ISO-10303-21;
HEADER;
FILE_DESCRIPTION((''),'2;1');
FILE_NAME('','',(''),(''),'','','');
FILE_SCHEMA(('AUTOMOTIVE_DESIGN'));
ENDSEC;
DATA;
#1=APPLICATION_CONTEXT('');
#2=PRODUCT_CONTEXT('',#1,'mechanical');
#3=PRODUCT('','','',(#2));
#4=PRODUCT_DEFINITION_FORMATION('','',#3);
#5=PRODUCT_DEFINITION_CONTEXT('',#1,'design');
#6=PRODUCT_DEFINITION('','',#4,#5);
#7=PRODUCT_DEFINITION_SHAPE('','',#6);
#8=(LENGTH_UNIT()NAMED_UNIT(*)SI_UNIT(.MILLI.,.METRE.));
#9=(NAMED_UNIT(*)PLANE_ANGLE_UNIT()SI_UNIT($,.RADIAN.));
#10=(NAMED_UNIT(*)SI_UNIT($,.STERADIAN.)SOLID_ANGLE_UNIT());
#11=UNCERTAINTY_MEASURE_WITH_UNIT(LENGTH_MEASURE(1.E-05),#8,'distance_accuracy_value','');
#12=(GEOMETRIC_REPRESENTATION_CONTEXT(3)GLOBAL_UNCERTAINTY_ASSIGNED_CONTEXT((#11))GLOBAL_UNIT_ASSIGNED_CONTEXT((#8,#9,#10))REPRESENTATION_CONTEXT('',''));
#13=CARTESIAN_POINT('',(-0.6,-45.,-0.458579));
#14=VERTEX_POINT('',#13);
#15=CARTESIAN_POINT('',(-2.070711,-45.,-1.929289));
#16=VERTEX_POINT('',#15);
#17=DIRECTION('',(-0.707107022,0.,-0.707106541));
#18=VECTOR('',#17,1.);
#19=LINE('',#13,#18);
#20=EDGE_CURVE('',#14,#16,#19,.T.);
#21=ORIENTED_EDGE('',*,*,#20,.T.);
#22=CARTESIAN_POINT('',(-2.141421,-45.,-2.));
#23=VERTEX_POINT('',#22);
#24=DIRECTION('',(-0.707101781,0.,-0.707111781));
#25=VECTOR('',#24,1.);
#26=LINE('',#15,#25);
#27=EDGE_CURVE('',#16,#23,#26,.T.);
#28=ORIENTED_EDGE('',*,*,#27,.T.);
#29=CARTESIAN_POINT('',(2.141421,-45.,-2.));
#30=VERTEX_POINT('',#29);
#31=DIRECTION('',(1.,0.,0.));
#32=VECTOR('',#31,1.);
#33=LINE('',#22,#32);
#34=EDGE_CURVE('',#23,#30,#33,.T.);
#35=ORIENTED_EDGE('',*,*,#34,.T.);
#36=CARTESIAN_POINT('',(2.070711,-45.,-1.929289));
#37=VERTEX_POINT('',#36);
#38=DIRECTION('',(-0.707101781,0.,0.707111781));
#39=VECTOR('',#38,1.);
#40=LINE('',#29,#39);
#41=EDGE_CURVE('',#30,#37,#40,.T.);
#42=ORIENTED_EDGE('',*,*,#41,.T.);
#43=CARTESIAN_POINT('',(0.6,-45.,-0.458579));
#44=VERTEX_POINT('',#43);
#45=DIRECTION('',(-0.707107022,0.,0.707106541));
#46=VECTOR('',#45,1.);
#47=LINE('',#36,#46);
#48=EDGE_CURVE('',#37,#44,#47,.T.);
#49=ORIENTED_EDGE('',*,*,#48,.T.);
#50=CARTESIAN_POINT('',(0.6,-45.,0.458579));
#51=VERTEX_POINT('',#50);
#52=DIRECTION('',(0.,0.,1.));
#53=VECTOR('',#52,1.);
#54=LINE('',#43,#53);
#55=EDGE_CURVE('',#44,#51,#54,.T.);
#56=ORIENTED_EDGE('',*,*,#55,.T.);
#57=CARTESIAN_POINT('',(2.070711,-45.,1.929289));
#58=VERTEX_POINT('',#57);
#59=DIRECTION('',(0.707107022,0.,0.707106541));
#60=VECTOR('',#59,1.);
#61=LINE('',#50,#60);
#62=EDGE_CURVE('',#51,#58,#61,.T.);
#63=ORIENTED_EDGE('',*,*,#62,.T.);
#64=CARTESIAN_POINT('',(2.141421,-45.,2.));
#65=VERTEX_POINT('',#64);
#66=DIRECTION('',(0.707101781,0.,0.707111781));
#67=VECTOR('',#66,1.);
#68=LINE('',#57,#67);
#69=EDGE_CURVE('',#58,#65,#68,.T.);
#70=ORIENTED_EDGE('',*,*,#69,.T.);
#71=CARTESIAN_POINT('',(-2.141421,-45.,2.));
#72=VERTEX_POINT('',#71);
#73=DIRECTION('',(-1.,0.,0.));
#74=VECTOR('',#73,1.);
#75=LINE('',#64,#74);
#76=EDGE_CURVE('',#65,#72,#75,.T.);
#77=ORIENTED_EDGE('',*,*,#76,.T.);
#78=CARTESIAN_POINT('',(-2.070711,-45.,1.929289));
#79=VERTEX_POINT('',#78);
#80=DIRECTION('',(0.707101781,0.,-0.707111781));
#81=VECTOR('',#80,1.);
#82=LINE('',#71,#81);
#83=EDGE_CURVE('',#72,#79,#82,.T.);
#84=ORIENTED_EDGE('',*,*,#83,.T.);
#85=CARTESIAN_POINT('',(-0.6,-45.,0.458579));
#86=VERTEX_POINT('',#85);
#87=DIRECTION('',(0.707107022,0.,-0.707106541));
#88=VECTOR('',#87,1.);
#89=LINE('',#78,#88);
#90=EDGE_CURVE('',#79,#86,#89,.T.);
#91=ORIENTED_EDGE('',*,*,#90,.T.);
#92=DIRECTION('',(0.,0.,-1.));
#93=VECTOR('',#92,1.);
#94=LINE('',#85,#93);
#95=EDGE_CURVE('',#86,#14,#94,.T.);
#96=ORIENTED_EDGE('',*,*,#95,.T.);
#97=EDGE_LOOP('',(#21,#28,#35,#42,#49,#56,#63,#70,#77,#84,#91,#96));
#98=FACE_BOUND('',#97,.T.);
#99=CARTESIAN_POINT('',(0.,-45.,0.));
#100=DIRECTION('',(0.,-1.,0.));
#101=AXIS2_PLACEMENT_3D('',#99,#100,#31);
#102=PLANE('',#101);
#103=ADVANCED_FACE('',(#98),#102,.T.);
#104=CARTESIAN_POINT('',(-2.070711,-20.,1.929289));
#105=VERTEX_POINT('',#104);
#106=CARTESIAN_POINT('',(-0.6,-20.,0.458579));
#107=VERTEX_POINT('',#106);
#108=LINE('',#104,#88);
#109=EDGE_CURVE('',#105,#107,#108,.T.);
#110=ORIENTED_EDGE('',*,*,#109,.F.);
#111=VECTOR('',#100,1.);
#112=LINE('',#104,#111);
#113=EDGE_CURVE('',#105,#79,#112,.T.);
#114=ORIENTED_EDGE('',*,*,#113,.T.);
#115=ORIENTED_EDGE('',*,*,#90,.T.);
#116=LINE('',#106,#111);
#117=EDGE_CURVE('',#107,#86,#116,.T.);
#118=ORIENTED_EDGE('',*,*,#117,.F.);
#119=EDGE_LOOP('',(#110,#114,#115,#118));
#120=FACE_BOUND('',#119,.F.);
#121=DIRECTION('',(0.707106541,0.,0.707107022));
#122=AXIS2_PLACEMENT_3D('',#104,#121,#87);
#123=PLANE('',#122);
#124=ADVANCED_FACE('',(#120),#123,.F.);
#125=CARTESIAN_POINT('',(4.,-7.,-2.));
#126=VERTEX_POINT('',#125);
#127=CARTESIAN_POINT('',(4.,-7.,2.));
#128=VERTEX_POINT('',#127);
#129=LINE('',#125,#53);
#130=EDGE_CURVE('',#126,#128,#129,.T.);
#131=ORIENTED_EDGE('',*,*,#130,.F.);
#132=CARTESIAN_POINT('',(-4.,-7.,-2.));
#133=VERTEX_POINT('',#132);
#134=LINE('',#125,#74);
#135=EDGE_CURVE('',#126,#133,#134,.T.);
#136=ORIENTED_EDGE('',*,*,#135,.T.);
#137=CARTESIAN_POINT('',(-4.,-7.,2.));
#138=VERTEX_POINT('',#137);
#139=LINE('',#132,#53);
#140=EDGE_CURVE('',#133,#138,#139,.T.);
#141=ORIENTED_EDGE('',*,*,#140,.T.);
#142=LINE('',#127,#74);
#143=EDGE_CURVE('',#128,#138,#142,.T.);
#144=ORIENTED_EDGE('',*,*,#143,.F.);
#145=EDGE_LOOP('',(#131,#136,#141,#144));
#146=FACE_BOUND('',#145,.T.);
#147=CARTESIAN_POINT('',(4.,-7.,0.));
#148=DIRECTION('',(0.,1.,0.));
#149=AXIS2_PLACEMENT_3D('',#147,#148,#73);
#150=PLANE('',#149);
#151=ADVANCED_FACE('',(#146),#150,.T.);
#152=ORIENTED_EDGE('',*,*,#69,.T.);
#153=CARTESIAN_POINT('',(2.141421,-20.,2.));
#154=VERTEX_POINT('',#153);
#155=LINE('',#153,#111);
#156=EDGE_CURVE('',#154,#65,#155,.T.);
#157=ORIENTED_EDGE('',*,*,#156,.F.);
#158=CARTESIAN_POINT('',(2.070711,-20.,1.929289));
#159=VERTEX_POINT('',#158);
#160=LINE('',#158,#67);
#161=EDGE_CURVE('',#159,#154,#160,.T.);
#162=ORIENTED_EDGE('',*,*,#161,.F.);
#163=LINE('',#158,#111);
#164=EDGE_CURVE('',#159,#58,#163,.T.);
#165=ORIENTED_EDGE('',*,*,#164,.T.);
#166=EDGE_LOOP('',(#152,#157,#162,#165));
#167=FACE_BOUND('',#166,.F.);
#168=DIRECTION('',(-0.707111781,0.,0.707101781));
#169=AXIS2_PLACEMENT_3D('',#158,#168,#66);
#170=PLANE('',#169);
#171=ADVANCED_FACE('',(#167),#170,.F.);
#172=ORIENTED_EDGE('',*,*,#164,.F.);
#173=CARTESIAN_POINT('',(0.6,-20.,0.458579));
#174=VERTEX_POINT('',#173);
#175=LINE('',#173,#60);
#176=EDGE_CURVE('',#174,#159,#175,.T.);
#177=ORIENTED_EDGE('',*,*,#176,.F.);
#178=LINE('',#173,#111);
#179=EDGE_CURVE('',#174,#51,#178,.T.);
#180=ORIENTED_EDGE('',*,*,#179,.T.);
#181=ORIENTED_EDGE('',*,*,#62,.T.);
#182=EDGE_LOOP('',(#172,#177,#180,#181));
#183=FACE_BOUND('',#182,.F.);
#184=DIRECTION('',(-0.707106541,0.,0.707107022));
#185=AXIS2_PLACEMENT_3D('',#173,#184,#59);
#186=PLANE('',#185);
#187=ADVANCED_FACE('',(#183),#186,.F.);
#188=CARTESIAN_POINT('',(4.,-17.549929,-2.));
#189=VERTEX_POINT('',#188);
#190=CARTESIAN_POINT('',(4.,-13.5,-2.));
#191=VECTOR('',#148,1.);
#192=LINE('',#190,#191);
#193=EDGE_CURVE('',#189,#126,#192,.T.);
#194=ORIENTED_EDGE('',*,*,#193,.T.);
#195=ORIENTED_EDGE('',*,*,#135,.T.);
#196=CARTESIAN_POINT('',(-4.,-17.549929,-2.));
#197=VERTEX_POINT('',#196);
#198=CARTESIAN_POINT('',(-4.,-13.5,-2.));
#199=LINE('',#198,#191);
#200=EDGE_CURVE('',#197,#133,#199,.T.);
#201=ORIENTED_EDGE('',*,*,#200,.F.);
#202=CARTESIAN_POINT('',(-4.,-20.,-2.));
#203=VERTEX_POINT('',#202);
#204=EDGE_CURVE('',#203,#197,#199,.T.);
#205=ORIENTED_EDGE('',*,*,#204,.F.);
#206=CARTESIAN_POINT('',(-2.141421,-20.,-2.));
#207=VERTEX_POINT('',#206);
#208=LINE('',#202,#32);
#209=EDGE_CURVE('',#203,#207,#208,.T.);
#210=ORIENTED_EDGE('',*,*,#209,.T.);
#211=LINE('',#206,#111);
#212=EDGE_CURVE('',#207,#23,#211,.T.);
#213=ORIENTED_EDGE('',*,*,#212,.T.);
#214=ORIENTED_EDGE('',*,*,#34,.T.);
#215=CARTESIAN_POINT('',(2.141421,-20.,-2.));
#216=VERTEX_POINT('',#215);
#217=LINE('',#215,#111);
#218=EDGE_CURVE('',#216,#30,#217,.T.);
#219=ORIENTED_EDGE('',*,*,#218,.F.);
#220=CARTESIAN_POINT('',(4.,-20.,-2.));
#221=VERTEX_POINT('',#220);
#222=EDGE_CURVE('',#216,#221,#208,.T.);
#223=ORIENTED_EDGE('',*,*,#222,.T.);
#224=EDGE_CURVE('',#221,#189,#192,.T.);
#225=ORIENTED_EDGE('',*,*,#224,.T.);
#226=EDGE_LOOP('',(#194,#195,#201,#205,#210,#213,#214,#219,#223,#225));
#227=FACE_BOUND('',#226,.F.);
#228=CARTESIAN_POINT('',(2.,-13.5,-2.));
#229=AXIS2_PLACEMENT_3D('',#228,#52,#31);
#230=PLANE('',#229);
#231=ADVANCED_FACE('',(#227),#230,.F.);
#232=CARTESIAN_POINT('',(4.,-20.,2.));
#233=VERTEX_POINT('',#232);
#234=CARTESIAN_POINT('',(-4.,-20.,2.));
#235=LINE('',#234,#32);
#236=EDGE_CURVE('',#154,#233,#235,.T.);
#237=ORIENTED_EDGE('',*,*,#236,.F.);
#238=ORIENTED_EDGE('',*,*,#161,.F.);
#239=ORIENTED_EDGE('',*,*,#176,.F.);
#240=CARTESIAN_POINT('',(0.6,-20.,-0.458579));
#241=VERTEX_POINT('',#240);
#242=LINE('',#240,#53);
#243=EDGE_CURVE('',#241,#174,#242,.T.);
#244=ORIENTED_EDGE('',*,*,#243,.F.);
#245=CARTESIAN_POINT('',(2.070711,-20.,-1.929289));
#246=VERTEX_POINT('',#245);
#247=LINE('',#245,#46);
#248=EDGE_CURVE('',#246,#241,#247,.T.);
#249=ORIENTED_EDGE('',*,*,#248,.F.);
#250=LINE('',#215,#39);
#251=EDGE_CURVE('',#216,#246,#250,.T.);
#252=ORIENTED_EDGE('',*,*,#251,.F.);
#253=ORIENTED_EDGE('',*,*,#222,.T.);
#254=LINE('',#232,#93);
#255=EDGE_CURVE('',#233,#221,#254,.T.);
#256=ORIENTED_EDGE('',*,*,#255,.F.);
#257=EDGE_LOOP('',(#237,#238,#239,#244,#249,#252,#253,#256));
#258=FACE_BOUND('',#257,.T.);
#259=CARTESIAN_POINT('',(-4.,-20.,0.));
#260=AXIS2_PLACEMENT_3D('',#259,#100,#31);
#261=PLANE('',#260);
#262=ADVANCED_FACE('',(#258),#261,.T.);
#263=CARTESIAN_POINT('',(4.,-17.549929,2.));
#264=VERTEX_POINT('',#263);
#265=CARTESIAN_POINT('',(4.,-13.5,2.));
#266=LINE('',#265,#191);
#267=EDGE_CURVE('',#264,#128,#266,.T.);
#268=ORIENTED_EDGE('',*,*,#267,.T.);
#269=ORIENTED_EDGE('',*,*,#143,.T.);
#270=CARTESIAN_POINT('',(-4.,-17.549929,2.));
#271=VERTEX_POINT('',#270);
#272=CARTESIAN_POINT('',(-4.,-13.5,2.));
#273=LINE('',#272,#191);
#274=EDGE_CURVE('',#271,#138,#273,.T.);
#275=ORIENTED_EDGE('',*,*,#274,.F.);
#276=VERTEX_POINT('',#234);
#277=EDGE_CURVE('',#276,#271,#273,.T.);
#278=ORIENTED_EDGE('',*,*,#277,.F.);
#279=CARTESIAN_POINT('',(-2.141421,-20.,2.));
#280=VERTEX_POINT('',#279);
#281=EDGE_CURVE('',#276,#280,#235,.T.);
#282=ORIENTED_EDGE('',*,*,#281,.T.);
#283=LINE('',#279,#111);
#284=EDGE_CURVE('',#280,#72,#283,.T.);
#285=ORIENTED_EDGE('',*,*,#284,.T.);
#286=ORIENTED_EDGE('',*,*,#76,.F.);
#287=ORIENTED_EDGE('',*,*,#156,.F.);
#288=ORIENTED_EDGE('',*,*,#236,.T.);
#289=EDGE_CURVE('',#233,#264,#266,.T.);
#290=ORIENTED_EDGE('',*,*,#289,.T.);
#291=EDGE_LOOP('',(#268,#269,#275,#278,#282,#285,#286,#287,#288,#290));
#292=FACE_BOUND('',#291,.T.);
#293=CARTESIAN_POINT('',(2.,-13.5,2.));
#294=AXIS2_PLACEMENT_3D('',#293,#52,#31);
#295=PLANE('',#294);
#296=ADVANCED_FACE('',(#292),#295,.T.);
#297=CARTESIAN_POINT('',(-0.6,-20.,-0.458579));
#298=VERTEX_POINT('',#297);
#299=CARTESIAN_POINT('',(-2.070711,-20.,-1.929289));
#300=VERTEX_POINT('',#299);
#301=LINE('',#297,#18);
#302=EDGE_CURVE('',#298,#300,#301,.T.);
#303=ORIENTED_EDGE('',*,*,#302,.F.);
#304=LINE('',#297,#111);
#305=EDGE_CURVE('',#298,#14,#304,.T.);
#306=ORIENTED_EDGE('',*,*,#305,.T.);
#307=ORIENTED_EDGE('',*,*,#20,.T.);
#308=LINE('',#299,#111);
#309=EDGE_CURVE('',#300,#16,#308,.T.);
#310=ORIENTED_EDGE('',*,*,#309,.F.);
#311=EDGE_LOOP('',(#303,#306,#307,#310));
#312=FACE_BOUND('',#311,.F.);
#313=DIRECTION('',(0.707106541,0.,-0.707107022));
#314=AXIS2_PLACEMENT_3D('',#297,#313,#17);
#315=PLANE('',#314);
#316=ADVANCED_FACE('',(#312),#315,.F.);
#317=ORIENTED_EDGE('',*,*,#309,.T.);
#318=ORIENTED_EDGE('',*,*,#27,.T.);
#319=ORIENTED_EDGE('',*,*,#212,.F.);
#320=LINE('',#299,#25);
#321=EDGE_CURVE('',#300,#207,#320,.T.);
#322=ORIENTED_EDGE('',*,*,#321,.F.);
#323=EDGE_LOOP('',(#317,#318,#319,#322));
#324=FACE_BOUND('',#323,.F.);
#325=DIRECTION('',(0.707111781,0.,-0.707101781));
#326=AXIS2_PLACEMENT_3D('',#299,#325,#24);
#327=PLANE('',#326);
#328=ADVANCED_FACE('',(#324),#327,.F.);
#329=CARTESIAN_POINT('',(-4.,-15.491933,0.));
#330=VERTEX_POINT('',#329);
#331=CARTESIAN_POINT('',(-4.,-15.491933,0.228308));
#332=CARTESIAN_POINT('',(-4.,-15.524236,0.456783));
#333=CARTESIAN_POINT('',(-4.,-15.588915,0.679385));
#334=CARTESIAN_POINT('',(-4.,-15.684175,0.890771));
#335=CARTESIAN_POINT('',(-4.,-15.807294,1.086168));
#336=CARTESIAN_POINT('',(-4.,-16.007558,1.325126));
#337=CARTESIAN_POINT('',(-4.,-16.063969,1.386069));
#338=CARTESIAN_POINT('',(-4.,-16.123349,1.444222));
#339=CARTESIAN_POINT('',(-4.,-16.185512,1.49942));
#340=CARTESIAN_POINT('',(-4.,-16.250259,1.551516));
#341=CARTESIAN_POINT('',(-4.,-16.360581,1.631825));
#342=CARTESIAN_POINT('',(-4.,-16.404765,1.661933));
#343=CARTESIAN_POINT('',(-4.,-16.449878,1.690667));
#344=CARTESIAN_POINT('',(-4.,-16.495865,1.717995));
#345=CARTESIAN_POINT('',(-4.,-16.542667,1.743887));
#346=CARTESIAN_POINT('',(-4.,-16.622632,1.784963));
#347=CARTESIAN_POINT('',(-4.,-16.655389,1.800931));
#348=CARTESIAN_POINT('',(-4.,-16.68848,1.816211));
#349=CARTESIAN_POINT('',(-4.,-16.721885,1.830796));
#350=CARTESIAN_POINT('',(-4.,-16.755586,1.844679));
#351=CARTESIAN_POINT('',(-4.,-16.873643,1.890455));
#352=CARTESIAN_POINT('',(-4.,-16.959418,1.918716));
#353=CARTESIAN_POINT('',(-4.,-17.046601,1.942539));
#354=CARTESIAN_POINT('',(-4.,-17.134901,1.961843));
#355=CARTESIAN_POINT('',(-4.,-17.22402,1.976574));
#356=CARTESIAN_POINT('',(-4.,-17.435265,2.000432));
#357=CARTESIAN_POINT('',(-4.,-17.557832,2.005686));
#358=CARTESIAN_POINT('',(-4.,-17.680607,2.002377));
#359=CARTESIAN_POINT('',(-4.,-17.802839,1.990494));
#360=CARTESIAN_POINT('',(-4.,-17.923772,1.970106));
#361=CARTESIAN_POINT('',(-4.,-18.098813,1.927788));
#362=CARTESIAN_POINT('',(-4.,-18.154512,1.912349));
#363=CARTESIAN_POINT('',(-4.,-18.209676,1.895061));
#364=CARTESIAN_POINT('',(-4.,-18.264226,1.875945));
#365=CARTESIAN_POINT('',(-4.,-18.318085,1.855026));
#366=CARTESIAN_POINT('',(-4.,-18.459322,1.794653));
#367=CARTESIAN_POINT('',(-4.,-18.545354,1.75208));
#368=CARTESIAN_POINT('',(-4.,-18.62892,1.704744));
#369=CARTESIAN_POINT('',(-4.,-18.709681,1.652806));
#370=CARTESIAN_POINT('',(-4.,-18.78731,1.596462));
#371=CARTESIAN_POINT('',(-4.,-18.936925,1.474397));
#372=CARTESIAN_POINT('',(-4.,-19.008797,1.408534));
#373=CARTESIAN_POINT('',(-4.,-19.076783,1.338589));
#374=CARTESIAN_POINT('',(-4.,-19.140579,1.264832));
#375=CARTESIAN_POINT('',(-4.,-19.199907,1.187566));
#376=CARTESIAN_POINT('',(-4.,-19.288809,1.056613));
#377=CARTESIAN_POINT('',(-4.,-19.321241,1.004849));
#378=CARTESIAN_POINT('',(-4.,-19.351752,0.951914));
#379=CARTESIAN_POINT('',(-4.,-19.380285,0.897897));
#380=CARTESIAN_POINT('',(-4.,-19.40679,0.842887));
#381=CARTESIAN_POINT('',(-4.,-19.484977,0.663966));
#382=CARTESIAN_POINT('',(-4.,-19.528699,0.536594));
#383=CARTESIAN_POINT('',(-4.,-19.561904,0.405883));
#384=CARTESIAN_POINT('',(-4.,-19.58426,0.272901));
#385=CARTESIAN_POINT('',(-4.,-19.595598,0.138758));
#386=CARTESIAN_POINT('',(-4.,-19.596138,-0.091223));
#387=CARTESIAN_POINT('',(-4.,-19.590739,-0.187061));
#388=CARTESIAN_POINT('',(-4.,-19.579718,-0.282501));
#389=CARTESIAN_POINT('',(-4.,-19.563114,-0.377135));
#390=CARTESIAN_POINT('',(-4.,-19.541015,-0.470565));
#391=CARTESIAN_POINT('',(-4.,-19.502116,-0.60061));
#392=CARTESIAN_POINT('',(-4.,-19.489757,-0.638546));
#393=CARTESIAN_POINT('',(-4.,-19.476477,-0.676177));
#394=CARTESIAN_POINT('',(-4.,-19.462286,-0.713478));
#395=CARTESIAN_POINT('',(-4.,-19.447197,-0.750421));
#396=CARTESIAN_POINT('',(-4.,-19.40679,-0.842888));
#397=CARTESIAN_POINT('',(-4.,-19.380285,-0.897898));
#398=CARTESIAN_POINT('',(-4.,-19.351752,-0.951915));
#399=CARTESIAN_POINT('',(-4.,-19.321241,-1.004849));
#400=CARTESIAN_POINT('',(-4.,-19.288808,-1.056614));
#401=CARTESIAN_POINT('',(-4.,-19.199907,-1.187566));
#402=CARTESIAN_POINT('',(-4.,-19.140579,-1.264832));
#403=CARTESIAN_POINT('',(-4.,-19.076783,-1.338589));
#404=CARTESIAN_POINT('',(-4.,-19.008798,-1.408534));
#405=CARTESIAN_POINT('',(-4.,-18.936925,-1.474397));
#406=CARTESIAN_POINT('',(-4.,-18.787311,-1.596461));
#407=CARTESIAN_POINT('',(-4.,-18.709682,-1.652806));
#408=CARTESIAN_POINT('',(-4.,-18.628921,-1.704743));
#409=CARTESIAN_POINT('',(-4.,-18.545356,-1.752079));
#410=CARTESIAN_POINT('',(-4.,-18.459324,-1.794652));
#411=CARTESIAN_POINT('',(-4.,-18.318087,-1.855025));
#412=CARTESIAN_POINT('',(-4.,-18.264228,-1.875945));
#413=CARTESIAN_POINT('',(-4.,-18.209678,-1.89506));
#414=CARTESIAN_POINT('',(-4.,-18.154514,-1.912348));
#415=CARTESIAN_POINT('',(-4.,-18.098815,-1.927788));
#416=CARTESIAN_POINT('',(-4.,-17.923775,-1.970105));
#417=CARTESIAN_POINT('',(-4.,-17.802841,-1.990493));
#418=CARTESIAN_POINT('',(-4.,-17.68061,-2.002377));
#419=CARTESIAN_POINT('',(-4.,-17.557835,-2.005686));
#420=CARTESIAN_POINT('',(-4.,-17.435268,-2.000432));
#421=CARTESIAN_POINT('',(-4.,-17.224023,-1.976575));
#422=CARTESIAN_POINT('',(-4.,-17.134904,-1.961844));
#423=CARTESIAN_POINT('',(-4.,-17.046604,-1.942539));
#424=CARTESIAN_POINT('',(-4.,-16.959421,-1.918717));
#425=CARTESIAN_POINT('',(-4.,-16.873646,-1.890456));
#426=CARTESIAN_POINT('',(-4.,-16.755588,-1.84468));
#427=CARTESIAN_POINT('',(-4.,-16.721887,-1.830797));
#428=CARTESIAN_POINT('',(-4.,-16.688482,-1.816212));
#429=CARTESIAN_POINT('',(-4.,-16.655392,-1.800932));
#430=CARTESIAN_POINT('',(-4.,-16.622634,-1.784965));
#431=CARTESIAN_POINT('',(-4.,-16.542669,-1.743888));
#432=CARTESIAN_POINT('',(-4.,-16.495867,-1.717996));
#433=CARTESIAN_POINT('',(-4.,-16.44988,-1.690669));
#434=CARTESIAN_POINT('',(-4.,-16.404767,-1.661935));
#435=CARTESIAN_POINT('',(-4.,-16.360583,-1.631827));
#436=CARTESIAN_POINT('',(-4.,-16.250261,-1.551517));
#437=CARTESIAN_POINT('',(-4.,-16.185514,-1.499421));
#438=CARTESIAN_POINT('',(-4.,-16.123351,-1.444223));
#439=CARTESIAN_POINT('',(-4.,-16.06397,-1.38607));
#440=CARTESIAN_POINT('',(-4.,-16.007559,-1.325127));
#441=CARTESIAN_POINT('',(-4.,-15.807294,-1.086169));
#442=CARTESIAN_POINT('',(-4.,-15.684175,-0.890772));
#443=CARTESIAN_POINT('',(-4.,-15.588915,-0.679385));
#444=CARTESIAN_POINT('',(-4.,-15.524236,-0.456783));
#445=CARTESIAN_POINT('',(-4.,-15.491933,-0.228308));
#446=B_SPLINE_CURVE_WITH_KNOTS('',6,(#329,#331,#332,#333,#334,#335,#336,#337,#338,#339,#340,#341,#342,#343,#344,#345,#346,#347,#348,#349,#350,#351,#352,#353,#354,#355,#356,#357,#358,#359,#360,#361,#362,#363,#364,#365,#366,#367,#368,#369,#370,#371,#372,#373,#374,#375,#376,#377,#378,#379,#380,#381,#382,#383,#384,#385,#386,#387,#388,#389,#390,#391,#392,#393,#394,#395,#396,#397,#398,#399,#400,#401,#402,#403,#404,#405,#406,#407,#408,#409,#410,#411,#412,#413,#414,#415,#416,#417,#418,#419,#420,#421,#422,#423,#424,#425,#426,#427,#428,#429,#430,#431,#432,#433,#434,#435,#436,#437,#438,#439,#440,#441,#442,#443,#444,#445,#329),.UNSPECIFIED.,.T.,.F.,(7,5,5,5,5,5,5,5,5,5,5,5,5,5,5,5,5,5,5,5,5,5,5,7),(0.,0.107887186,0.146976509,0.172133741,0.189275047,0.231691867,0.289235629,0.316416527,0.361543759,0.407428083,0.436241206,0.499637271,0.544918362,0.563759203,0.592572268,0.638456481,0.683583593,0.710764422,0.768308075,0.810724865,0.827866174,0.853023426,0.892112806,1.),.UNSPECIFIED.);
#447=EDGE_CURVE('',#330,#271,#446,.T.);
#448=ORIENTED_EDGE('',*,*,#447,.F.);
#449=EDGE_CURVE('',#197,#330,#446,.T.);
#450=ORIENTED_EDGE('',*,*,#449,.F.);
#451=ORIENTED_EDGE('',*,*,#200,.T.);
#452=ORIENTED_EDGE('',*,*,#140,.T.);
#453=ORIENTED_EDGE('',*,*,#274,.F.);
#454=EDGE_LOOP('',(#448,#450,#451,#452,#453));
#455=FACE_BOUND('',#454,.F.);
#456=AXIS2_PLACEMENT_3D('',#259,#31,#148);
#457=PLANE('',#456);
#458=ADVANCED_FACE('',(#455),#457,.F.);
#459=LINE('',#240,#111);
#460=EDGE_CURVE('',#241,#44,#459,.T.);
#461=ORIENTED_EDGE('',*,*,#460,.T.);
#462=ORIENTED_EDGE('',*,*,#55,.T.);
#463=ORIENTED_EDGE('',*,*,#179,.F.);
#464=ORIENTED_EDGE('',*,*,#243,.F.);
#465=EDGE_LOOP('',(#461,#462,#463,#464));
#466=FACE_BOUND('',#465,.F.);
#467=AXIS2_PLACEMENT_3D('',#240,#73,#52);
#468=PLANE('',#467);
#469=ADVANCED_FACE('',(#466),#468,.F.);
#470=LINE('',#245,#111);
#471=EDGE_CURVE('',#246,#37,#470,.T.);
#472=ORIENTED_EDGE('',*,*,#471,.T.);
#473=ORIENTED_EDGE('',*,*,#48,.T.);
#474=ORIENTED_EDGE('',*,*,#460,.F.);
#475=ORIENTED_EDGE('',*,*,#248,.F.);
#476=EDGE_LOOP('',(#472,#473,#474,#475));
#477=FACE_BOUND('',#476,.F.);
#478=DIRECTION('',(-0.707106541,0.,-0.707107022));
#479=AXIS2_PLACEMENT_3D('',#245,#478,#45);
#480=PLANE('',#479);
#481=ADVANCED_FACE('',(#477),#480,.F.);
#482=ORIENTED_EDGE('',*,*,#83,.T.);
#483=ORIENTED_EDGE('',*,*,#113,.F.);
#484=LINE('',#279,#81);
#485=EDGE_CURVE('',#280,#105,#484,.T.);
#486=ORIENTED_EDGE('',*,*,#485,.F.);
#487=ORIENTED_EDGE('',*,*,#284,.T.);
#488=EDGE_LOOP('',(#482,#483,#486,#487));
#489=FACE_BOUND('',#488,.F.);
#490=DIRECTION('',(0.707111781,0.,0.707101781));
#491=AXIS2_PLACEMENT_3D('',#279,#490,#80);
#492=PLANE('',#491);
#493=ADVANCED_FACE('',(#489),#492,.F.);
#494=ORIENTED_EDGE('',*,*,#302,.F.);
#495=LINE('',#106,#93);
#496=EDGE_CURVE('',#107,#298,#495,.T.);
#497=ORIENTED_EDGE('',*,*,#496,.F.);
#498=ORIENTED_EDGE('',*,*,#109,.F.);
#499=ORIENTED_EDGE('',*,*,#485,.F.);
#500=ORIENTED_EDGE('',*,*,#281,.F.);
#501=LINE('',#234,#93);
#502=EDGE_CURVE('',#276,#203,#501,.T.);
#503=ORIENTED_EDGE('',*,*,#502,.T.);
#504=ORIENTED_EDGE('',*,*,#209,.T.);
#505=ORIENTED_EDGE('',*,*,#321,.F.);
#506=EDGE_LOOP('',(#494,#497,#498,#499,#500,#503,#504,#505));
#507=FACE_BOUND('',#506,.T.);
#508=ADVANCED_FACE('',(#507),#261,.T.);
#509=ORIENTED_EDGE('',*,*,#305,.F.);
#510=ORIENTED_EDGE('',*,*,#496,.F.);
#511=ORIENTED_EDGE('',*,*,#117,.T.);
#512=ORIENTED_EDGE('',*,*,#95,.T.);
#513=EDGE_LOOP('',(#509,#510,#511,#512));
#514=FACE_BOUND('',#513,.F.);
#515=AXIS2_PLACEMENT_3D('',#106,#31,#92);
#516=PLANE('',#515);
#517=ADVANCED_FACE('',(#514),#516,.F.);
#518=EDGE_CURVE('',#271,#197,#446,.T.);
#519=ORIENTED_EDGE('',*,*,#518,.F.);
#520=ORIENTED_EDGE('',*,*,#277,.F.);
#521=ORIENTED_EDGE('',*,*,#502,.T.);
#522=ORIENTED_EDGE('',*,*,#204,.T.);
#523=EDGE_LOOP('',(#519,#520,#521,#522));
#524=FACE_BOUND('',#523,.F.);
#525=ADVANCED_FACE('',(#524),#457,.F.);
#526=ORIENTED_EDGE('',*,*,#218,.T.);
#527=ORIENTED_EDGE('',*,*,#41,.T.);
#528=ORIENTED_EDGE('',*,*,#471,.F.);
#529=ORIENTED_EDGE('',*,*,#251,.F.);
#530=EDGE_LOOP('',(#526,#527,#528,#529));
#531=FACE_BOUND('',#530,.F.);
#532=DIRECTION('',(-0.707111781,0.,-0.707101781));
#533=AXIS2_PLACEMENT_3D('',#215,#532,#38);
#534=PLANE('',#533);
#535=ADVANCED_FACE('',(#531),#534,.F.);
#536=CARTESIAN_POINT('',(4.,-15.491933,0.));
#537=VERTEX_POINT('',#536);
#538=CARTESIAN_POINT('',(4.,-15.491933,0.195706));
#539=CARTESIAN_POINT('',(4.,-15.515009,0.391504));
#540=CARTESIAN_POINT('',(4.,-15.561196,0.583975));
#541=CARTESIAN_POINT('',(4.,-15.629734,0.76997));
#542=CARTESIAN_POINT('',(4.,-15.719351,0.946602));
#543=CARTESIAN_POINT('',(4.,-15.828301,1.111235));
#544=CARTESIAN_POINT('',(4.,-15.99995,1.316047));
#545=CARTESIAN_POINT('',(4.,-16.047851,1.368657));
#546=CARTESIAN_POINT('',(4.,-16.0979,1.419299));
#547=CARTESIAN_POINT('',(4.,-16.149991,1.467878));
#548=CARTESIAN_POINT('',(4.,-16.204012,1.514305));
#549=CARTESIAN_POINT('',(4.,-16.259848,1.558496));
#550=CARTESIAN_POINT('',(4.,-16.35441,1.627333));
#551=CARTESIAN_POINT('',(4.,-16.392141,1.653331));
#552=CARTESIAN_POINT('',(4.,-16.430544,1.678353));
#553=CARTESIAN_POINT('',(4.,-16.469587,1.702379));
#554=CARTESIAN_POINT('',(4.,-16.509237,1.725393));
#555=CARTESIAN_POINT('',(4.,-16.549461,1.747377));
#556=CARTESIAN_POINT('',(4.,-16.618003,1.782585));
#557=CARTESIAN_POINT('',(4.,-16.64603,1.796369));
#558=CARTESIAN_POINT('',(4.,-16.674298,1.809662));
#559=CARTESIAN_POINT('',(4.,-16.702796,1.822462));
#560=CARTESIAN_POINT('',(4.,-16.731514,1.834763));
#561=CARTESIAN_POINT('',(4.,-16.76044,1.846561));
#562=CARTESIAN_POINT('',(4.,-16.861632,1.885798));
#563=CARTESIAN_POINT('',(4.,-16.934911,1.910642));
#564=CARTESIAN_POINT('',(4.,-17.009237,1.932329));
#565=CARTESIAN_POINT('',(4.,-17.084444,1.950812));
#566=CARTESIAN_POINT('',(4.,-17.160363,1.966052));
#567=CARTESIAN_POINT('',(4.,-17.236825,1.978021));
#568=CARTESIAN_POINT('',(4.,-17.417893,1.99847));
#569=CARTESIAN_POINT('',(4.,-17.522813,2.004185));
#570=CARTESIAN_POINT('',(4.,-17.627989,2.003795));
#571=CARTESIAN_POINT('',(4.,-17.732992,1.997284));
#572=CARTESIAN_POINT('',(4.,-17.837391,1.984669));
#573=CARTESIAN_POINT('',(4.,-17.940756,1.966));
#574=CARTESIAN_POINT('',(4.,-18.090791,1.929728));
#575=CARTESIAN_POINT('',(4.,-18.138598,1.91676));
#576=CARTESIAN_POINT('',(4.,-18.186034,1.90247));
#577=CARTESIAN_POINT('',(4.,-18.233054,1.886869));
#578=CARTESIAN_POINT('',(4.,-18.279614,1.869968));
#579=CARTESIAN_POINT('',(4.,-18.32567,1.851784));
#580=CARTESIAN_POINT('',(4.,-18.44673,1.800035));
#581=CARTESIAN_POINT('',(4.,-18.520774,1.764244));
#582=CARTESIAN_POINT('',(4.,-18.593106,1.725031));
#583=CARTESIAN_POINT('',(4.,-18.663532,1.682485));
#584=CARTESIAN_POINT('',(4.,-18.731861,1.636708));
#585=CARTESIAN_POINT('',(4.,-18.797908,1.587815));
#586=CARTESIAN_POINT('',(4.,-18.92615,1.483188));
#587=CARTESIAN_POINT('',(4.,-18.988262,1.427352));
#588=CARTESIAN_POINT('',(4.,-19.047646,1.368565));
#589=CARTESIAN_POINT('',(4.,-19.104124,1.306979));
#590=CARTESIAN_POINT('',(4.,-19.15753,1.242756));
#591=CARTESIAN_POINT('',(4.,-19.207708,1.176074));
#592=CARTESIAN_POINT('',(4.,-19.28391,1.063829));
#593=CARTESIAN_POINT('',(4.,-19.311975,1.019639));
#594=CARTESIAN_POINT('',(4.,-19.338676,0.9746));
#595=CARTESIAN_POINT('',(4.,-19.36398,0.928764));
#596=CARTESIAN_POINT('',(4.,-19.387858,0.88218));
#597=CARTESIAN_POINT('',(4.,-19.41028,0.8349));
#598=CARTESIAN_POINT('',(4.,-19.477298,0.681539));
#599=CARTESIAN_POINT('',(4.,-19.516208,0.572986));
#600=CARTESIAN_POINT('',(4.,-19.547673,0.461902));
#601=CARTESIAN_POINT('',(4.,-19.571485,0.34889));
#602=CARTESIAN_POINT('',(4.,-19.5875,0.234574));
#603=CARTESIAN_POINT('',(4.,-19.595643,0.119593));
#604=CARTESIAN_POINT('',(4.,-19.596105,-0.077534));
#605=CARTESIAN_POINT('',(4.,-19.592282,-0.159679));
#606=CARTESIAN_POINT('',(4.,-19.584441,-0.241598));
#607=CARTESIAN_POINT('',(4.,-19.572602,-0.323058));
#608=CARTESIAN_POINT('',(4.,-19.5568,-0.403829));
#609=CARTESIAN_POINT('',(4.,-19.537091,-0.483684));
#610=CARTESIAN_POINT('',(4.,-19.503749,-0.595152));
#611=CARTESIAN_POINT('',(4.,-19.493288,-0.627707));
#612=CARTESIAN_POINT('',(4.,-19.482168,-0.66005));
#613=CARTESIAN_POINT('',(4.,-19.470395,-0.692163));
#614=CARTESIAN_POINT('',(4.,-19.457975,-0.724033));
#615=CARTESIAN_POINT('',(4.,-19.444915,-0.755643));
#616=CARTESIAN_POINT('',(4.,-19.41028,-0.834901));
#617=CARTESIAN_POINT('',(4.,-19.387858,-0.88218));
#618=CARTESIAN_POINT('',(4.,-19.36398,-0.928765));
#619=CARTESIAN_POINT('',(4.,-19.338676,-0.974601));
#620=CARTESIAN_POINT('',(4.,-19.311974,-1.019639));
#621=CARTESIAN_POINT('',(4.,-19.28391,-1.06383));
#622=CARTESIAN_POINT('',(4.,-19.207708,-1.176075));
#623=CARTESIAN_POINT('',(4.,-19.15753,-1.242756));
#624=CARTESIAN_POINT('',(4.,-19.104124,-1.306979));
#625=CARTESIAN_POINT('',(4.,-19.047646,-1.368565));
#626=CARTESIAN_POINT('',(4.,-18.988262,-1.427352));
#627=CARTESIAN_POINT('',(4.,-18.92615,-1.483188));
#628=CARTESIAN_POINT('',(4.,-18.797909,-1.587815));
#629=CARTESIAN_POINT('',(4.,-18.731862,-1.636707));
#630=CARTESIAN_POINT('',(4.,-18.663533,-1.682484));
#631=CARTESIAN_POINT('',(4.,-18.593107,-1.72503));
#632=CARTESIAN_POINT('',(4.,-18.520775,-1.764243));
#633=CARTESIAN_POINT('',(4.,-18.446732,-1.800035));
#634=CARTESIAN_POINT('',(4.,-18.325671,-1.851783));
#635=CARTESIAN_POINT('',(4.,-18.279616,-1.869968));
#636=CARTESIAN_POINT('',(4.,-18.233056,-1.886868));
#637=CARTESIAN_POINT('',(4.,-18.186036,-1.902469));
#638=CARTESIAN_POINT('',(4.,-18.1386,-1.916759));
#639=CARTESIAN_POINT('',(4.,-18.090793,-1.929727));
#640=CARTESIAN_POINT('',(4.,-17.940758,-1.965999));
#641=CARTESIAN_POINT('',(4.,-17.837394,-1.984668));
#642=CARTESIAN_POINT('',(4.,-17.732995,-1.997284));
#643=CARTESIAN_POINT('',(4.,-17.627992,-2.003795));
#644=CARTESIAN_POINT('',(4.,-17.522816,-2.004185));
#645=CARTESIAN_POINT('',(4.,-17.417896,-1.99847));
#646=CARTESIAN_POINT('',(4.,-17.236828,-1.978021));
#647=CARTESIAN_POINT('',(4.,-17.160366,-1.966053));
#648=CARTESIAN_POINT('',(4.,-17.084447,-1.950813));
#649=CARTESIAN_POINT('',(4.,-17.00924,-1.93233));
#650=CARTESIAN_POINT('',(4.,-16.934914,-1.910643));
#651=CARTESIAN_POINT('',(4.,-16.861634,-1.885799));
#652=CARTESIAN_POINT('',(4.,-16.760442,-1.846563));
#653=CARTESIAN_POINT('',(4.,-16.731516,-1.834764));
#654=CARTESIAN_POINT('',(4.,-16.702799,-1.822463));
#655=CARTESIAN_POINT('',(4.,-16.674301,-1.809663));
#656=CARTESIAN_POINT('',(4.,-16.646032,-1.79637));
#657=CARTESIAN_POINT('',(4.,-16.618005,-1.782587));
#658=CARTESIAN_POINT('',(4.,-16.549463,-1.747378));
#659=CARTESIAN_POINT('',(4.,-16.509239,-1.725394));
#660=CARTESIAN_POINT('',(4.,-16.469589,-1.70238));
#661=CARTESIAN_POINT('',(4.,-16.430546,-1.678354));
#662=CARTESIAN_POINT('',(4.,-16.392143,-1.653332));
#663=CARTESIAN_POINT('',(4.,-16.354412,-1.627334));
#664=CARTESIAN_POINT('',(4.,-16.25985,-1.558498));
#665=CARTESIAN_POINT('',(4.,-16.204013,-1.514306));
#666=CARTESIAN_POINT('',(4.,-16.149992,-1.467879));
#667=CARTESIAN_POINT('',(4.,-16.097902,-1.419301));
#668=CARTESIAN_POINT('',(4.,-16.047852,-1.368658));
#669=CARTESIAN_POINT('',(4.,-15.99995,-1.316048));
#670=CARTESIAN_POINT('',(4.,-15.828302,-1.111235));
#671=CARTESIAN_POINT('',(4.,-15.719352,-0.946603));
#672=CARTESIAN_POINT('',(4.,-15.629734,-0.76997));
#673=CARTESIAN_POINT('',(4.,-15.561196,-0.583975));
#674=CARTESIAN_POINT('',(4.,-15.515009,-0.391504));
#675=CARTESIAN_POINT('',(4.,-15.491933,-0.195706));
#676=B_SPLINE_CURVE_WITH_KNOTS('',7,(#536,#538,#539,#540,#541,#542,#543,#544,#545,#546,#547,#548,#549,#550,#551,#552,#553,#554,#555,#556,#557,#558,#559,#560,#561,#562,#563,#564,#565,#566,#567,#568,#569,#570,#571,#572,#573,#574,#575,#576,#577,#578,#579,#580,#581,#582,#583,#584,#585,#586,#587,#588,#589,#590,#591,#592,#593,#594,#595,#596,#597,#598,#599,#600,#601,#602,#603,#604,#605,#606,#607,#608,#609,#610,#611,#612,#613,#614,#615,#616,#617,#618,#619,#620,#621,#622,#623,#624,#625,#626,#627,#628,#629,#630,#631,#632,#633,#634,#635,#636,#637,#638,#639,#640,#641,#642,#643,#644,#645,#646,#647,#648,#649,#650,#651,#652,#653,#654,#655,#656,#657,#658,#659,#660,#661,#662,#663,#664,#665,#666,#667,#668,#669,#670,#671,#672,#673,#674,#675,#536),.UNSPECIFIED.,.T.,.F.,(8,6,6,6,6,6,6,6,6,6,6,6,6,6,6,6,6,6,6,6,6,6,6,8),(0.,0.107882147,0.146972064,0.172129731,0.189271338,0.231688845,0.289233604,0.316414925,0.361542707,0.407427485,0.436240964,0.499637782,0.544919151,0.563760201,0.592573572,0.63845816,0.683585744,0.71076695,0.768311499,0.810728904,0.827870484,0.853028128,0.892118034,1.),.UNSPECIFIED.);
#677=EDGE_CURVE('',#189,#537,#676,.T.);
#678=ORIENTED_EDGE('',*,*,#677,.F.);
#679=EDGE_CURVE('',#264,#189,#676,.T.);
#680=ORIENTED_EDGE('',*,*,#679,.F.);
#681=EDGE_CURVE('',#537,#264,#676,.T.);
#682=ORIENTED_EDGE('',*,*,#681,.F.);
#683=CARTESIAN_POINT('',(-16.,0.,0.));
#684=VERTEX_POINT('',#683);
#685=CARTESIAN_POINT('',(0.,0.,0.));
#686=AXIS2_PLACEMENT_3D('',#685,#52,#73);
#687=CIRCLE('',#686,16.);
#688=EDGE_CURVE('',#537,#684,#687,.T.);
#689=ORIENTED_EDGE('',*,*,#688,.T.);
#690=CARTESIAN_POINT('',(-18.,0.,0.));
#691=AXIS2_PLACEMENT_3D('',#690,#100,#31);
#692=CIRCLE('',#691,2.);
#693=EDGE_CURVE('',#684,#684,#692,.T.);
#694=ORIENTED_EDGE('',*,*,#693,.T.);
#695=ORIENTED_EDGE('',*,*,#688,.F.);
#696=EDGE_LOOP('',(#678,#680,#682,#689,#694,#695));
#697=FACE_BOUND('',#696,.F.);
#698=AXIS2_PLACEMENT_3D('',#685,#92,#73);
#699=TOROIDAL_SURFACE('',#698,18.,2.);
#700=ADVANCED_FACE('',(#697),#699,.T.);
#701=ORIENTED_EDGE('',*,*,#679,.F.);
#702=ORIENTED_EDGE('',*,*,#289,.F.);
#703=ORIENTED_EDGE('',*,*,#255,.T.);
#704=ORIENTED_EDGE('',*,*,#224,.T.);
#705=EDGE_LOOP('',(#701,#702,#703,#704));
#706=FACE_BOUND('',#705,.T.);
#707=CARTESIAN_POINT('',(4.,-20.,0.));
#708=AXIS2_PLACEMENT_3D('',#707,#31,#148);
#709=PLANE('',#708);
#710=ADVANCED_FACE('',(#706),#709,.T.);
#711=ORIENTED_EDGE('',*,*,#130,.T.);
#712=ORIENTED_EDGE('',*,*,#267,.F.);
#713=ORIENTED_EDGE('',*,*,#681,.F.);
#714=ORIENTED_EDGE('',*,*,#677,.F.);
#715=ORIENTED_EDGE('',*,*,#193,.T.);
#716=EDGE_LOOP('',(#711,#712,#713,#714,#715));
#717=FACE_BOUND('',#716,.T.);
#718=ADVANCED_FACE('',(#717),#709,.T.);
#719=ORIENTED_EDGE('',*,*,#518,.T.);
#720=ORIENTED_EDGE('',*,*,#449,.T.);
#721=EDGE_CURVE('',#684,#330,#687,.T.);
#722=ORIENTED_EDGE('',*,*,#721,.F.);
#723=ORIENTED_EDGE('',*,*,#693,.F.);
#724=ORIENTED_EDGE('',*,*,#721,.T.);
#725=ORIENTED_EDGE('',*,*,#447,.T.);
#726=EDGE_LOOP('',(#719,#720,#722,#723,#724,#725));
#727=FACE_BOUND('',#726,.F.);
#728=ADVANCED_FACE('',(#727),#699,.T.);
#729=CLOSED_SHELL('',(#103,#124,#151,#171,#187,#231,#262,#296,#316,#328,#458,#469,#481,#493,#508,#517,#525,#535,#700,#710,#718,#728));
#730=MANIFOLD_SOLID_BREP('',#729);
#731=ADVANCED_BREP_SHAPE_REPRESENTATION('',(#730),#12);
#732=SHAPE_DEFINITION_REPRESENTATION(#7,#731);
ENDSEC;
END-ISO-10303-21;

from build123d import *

# Parameters (mm, degrees)
F0_R     = 2
F2_W     = 4
F2_H     = 13
F3_DEPTH = 2
F5_DEPTH = 25


with BuildPart() as f1:
    # F0 (on Front) → F1 (revolve)
    with BuildSketch(Plane.XZ):
        with Locations((-18, 0)):
            Circle(F0_R)
    revolve(axis=Axis((0, 0, 11.250001), (0, 0, 1)))

    # F2 (on Top) → F3 (join, symmetric)
    with BuildSketch(Plane.XY):
        with Locations((2, -13.5)):
            Rectangle(F2_W, F2_H)
        with Locations((-2, -13.5)):
            Rectangle(F2_W, F2_H)
    extrude(amount=F3_DEPTH, both=True)

    # F4 (on face) → F5 (join)
    with BuildSketch(Plane.XZ.offset(20)):
        Polygon((0.5, 0.5), (2, 2), (0.5, 2), (0, 2), (-0.5, 2), (-2, 2), (-0.5, 0.5), (-0.5, -0.5), (-2, -2), (-0.5, -2), (0.5, -2), (2, -2), (0.5, -0.5), align=None)
        Polygon((2.070711, 1.929289), (2.141421, 2), (2, 2), (0.5, 0.5), (0.5, -0.5), (2, -2), (2.141421, -2), (2.070711, -1.929289), (0.6, -0.458579), (0.6, 0.458579), align=None)
        Polygon((-0.5, 0.5), (-2, 2), (-2.141421, 2), (-2.070711, 1.929289), (-0.6, 0.458579), (-0.6, -0.458579), (-2.070711, -1.929289), (-2.141421, -2), (-2, -2), (-0.5, -0.5), align=None)
    extrude(amount=F5_DEPTH)


solid = f1.part
